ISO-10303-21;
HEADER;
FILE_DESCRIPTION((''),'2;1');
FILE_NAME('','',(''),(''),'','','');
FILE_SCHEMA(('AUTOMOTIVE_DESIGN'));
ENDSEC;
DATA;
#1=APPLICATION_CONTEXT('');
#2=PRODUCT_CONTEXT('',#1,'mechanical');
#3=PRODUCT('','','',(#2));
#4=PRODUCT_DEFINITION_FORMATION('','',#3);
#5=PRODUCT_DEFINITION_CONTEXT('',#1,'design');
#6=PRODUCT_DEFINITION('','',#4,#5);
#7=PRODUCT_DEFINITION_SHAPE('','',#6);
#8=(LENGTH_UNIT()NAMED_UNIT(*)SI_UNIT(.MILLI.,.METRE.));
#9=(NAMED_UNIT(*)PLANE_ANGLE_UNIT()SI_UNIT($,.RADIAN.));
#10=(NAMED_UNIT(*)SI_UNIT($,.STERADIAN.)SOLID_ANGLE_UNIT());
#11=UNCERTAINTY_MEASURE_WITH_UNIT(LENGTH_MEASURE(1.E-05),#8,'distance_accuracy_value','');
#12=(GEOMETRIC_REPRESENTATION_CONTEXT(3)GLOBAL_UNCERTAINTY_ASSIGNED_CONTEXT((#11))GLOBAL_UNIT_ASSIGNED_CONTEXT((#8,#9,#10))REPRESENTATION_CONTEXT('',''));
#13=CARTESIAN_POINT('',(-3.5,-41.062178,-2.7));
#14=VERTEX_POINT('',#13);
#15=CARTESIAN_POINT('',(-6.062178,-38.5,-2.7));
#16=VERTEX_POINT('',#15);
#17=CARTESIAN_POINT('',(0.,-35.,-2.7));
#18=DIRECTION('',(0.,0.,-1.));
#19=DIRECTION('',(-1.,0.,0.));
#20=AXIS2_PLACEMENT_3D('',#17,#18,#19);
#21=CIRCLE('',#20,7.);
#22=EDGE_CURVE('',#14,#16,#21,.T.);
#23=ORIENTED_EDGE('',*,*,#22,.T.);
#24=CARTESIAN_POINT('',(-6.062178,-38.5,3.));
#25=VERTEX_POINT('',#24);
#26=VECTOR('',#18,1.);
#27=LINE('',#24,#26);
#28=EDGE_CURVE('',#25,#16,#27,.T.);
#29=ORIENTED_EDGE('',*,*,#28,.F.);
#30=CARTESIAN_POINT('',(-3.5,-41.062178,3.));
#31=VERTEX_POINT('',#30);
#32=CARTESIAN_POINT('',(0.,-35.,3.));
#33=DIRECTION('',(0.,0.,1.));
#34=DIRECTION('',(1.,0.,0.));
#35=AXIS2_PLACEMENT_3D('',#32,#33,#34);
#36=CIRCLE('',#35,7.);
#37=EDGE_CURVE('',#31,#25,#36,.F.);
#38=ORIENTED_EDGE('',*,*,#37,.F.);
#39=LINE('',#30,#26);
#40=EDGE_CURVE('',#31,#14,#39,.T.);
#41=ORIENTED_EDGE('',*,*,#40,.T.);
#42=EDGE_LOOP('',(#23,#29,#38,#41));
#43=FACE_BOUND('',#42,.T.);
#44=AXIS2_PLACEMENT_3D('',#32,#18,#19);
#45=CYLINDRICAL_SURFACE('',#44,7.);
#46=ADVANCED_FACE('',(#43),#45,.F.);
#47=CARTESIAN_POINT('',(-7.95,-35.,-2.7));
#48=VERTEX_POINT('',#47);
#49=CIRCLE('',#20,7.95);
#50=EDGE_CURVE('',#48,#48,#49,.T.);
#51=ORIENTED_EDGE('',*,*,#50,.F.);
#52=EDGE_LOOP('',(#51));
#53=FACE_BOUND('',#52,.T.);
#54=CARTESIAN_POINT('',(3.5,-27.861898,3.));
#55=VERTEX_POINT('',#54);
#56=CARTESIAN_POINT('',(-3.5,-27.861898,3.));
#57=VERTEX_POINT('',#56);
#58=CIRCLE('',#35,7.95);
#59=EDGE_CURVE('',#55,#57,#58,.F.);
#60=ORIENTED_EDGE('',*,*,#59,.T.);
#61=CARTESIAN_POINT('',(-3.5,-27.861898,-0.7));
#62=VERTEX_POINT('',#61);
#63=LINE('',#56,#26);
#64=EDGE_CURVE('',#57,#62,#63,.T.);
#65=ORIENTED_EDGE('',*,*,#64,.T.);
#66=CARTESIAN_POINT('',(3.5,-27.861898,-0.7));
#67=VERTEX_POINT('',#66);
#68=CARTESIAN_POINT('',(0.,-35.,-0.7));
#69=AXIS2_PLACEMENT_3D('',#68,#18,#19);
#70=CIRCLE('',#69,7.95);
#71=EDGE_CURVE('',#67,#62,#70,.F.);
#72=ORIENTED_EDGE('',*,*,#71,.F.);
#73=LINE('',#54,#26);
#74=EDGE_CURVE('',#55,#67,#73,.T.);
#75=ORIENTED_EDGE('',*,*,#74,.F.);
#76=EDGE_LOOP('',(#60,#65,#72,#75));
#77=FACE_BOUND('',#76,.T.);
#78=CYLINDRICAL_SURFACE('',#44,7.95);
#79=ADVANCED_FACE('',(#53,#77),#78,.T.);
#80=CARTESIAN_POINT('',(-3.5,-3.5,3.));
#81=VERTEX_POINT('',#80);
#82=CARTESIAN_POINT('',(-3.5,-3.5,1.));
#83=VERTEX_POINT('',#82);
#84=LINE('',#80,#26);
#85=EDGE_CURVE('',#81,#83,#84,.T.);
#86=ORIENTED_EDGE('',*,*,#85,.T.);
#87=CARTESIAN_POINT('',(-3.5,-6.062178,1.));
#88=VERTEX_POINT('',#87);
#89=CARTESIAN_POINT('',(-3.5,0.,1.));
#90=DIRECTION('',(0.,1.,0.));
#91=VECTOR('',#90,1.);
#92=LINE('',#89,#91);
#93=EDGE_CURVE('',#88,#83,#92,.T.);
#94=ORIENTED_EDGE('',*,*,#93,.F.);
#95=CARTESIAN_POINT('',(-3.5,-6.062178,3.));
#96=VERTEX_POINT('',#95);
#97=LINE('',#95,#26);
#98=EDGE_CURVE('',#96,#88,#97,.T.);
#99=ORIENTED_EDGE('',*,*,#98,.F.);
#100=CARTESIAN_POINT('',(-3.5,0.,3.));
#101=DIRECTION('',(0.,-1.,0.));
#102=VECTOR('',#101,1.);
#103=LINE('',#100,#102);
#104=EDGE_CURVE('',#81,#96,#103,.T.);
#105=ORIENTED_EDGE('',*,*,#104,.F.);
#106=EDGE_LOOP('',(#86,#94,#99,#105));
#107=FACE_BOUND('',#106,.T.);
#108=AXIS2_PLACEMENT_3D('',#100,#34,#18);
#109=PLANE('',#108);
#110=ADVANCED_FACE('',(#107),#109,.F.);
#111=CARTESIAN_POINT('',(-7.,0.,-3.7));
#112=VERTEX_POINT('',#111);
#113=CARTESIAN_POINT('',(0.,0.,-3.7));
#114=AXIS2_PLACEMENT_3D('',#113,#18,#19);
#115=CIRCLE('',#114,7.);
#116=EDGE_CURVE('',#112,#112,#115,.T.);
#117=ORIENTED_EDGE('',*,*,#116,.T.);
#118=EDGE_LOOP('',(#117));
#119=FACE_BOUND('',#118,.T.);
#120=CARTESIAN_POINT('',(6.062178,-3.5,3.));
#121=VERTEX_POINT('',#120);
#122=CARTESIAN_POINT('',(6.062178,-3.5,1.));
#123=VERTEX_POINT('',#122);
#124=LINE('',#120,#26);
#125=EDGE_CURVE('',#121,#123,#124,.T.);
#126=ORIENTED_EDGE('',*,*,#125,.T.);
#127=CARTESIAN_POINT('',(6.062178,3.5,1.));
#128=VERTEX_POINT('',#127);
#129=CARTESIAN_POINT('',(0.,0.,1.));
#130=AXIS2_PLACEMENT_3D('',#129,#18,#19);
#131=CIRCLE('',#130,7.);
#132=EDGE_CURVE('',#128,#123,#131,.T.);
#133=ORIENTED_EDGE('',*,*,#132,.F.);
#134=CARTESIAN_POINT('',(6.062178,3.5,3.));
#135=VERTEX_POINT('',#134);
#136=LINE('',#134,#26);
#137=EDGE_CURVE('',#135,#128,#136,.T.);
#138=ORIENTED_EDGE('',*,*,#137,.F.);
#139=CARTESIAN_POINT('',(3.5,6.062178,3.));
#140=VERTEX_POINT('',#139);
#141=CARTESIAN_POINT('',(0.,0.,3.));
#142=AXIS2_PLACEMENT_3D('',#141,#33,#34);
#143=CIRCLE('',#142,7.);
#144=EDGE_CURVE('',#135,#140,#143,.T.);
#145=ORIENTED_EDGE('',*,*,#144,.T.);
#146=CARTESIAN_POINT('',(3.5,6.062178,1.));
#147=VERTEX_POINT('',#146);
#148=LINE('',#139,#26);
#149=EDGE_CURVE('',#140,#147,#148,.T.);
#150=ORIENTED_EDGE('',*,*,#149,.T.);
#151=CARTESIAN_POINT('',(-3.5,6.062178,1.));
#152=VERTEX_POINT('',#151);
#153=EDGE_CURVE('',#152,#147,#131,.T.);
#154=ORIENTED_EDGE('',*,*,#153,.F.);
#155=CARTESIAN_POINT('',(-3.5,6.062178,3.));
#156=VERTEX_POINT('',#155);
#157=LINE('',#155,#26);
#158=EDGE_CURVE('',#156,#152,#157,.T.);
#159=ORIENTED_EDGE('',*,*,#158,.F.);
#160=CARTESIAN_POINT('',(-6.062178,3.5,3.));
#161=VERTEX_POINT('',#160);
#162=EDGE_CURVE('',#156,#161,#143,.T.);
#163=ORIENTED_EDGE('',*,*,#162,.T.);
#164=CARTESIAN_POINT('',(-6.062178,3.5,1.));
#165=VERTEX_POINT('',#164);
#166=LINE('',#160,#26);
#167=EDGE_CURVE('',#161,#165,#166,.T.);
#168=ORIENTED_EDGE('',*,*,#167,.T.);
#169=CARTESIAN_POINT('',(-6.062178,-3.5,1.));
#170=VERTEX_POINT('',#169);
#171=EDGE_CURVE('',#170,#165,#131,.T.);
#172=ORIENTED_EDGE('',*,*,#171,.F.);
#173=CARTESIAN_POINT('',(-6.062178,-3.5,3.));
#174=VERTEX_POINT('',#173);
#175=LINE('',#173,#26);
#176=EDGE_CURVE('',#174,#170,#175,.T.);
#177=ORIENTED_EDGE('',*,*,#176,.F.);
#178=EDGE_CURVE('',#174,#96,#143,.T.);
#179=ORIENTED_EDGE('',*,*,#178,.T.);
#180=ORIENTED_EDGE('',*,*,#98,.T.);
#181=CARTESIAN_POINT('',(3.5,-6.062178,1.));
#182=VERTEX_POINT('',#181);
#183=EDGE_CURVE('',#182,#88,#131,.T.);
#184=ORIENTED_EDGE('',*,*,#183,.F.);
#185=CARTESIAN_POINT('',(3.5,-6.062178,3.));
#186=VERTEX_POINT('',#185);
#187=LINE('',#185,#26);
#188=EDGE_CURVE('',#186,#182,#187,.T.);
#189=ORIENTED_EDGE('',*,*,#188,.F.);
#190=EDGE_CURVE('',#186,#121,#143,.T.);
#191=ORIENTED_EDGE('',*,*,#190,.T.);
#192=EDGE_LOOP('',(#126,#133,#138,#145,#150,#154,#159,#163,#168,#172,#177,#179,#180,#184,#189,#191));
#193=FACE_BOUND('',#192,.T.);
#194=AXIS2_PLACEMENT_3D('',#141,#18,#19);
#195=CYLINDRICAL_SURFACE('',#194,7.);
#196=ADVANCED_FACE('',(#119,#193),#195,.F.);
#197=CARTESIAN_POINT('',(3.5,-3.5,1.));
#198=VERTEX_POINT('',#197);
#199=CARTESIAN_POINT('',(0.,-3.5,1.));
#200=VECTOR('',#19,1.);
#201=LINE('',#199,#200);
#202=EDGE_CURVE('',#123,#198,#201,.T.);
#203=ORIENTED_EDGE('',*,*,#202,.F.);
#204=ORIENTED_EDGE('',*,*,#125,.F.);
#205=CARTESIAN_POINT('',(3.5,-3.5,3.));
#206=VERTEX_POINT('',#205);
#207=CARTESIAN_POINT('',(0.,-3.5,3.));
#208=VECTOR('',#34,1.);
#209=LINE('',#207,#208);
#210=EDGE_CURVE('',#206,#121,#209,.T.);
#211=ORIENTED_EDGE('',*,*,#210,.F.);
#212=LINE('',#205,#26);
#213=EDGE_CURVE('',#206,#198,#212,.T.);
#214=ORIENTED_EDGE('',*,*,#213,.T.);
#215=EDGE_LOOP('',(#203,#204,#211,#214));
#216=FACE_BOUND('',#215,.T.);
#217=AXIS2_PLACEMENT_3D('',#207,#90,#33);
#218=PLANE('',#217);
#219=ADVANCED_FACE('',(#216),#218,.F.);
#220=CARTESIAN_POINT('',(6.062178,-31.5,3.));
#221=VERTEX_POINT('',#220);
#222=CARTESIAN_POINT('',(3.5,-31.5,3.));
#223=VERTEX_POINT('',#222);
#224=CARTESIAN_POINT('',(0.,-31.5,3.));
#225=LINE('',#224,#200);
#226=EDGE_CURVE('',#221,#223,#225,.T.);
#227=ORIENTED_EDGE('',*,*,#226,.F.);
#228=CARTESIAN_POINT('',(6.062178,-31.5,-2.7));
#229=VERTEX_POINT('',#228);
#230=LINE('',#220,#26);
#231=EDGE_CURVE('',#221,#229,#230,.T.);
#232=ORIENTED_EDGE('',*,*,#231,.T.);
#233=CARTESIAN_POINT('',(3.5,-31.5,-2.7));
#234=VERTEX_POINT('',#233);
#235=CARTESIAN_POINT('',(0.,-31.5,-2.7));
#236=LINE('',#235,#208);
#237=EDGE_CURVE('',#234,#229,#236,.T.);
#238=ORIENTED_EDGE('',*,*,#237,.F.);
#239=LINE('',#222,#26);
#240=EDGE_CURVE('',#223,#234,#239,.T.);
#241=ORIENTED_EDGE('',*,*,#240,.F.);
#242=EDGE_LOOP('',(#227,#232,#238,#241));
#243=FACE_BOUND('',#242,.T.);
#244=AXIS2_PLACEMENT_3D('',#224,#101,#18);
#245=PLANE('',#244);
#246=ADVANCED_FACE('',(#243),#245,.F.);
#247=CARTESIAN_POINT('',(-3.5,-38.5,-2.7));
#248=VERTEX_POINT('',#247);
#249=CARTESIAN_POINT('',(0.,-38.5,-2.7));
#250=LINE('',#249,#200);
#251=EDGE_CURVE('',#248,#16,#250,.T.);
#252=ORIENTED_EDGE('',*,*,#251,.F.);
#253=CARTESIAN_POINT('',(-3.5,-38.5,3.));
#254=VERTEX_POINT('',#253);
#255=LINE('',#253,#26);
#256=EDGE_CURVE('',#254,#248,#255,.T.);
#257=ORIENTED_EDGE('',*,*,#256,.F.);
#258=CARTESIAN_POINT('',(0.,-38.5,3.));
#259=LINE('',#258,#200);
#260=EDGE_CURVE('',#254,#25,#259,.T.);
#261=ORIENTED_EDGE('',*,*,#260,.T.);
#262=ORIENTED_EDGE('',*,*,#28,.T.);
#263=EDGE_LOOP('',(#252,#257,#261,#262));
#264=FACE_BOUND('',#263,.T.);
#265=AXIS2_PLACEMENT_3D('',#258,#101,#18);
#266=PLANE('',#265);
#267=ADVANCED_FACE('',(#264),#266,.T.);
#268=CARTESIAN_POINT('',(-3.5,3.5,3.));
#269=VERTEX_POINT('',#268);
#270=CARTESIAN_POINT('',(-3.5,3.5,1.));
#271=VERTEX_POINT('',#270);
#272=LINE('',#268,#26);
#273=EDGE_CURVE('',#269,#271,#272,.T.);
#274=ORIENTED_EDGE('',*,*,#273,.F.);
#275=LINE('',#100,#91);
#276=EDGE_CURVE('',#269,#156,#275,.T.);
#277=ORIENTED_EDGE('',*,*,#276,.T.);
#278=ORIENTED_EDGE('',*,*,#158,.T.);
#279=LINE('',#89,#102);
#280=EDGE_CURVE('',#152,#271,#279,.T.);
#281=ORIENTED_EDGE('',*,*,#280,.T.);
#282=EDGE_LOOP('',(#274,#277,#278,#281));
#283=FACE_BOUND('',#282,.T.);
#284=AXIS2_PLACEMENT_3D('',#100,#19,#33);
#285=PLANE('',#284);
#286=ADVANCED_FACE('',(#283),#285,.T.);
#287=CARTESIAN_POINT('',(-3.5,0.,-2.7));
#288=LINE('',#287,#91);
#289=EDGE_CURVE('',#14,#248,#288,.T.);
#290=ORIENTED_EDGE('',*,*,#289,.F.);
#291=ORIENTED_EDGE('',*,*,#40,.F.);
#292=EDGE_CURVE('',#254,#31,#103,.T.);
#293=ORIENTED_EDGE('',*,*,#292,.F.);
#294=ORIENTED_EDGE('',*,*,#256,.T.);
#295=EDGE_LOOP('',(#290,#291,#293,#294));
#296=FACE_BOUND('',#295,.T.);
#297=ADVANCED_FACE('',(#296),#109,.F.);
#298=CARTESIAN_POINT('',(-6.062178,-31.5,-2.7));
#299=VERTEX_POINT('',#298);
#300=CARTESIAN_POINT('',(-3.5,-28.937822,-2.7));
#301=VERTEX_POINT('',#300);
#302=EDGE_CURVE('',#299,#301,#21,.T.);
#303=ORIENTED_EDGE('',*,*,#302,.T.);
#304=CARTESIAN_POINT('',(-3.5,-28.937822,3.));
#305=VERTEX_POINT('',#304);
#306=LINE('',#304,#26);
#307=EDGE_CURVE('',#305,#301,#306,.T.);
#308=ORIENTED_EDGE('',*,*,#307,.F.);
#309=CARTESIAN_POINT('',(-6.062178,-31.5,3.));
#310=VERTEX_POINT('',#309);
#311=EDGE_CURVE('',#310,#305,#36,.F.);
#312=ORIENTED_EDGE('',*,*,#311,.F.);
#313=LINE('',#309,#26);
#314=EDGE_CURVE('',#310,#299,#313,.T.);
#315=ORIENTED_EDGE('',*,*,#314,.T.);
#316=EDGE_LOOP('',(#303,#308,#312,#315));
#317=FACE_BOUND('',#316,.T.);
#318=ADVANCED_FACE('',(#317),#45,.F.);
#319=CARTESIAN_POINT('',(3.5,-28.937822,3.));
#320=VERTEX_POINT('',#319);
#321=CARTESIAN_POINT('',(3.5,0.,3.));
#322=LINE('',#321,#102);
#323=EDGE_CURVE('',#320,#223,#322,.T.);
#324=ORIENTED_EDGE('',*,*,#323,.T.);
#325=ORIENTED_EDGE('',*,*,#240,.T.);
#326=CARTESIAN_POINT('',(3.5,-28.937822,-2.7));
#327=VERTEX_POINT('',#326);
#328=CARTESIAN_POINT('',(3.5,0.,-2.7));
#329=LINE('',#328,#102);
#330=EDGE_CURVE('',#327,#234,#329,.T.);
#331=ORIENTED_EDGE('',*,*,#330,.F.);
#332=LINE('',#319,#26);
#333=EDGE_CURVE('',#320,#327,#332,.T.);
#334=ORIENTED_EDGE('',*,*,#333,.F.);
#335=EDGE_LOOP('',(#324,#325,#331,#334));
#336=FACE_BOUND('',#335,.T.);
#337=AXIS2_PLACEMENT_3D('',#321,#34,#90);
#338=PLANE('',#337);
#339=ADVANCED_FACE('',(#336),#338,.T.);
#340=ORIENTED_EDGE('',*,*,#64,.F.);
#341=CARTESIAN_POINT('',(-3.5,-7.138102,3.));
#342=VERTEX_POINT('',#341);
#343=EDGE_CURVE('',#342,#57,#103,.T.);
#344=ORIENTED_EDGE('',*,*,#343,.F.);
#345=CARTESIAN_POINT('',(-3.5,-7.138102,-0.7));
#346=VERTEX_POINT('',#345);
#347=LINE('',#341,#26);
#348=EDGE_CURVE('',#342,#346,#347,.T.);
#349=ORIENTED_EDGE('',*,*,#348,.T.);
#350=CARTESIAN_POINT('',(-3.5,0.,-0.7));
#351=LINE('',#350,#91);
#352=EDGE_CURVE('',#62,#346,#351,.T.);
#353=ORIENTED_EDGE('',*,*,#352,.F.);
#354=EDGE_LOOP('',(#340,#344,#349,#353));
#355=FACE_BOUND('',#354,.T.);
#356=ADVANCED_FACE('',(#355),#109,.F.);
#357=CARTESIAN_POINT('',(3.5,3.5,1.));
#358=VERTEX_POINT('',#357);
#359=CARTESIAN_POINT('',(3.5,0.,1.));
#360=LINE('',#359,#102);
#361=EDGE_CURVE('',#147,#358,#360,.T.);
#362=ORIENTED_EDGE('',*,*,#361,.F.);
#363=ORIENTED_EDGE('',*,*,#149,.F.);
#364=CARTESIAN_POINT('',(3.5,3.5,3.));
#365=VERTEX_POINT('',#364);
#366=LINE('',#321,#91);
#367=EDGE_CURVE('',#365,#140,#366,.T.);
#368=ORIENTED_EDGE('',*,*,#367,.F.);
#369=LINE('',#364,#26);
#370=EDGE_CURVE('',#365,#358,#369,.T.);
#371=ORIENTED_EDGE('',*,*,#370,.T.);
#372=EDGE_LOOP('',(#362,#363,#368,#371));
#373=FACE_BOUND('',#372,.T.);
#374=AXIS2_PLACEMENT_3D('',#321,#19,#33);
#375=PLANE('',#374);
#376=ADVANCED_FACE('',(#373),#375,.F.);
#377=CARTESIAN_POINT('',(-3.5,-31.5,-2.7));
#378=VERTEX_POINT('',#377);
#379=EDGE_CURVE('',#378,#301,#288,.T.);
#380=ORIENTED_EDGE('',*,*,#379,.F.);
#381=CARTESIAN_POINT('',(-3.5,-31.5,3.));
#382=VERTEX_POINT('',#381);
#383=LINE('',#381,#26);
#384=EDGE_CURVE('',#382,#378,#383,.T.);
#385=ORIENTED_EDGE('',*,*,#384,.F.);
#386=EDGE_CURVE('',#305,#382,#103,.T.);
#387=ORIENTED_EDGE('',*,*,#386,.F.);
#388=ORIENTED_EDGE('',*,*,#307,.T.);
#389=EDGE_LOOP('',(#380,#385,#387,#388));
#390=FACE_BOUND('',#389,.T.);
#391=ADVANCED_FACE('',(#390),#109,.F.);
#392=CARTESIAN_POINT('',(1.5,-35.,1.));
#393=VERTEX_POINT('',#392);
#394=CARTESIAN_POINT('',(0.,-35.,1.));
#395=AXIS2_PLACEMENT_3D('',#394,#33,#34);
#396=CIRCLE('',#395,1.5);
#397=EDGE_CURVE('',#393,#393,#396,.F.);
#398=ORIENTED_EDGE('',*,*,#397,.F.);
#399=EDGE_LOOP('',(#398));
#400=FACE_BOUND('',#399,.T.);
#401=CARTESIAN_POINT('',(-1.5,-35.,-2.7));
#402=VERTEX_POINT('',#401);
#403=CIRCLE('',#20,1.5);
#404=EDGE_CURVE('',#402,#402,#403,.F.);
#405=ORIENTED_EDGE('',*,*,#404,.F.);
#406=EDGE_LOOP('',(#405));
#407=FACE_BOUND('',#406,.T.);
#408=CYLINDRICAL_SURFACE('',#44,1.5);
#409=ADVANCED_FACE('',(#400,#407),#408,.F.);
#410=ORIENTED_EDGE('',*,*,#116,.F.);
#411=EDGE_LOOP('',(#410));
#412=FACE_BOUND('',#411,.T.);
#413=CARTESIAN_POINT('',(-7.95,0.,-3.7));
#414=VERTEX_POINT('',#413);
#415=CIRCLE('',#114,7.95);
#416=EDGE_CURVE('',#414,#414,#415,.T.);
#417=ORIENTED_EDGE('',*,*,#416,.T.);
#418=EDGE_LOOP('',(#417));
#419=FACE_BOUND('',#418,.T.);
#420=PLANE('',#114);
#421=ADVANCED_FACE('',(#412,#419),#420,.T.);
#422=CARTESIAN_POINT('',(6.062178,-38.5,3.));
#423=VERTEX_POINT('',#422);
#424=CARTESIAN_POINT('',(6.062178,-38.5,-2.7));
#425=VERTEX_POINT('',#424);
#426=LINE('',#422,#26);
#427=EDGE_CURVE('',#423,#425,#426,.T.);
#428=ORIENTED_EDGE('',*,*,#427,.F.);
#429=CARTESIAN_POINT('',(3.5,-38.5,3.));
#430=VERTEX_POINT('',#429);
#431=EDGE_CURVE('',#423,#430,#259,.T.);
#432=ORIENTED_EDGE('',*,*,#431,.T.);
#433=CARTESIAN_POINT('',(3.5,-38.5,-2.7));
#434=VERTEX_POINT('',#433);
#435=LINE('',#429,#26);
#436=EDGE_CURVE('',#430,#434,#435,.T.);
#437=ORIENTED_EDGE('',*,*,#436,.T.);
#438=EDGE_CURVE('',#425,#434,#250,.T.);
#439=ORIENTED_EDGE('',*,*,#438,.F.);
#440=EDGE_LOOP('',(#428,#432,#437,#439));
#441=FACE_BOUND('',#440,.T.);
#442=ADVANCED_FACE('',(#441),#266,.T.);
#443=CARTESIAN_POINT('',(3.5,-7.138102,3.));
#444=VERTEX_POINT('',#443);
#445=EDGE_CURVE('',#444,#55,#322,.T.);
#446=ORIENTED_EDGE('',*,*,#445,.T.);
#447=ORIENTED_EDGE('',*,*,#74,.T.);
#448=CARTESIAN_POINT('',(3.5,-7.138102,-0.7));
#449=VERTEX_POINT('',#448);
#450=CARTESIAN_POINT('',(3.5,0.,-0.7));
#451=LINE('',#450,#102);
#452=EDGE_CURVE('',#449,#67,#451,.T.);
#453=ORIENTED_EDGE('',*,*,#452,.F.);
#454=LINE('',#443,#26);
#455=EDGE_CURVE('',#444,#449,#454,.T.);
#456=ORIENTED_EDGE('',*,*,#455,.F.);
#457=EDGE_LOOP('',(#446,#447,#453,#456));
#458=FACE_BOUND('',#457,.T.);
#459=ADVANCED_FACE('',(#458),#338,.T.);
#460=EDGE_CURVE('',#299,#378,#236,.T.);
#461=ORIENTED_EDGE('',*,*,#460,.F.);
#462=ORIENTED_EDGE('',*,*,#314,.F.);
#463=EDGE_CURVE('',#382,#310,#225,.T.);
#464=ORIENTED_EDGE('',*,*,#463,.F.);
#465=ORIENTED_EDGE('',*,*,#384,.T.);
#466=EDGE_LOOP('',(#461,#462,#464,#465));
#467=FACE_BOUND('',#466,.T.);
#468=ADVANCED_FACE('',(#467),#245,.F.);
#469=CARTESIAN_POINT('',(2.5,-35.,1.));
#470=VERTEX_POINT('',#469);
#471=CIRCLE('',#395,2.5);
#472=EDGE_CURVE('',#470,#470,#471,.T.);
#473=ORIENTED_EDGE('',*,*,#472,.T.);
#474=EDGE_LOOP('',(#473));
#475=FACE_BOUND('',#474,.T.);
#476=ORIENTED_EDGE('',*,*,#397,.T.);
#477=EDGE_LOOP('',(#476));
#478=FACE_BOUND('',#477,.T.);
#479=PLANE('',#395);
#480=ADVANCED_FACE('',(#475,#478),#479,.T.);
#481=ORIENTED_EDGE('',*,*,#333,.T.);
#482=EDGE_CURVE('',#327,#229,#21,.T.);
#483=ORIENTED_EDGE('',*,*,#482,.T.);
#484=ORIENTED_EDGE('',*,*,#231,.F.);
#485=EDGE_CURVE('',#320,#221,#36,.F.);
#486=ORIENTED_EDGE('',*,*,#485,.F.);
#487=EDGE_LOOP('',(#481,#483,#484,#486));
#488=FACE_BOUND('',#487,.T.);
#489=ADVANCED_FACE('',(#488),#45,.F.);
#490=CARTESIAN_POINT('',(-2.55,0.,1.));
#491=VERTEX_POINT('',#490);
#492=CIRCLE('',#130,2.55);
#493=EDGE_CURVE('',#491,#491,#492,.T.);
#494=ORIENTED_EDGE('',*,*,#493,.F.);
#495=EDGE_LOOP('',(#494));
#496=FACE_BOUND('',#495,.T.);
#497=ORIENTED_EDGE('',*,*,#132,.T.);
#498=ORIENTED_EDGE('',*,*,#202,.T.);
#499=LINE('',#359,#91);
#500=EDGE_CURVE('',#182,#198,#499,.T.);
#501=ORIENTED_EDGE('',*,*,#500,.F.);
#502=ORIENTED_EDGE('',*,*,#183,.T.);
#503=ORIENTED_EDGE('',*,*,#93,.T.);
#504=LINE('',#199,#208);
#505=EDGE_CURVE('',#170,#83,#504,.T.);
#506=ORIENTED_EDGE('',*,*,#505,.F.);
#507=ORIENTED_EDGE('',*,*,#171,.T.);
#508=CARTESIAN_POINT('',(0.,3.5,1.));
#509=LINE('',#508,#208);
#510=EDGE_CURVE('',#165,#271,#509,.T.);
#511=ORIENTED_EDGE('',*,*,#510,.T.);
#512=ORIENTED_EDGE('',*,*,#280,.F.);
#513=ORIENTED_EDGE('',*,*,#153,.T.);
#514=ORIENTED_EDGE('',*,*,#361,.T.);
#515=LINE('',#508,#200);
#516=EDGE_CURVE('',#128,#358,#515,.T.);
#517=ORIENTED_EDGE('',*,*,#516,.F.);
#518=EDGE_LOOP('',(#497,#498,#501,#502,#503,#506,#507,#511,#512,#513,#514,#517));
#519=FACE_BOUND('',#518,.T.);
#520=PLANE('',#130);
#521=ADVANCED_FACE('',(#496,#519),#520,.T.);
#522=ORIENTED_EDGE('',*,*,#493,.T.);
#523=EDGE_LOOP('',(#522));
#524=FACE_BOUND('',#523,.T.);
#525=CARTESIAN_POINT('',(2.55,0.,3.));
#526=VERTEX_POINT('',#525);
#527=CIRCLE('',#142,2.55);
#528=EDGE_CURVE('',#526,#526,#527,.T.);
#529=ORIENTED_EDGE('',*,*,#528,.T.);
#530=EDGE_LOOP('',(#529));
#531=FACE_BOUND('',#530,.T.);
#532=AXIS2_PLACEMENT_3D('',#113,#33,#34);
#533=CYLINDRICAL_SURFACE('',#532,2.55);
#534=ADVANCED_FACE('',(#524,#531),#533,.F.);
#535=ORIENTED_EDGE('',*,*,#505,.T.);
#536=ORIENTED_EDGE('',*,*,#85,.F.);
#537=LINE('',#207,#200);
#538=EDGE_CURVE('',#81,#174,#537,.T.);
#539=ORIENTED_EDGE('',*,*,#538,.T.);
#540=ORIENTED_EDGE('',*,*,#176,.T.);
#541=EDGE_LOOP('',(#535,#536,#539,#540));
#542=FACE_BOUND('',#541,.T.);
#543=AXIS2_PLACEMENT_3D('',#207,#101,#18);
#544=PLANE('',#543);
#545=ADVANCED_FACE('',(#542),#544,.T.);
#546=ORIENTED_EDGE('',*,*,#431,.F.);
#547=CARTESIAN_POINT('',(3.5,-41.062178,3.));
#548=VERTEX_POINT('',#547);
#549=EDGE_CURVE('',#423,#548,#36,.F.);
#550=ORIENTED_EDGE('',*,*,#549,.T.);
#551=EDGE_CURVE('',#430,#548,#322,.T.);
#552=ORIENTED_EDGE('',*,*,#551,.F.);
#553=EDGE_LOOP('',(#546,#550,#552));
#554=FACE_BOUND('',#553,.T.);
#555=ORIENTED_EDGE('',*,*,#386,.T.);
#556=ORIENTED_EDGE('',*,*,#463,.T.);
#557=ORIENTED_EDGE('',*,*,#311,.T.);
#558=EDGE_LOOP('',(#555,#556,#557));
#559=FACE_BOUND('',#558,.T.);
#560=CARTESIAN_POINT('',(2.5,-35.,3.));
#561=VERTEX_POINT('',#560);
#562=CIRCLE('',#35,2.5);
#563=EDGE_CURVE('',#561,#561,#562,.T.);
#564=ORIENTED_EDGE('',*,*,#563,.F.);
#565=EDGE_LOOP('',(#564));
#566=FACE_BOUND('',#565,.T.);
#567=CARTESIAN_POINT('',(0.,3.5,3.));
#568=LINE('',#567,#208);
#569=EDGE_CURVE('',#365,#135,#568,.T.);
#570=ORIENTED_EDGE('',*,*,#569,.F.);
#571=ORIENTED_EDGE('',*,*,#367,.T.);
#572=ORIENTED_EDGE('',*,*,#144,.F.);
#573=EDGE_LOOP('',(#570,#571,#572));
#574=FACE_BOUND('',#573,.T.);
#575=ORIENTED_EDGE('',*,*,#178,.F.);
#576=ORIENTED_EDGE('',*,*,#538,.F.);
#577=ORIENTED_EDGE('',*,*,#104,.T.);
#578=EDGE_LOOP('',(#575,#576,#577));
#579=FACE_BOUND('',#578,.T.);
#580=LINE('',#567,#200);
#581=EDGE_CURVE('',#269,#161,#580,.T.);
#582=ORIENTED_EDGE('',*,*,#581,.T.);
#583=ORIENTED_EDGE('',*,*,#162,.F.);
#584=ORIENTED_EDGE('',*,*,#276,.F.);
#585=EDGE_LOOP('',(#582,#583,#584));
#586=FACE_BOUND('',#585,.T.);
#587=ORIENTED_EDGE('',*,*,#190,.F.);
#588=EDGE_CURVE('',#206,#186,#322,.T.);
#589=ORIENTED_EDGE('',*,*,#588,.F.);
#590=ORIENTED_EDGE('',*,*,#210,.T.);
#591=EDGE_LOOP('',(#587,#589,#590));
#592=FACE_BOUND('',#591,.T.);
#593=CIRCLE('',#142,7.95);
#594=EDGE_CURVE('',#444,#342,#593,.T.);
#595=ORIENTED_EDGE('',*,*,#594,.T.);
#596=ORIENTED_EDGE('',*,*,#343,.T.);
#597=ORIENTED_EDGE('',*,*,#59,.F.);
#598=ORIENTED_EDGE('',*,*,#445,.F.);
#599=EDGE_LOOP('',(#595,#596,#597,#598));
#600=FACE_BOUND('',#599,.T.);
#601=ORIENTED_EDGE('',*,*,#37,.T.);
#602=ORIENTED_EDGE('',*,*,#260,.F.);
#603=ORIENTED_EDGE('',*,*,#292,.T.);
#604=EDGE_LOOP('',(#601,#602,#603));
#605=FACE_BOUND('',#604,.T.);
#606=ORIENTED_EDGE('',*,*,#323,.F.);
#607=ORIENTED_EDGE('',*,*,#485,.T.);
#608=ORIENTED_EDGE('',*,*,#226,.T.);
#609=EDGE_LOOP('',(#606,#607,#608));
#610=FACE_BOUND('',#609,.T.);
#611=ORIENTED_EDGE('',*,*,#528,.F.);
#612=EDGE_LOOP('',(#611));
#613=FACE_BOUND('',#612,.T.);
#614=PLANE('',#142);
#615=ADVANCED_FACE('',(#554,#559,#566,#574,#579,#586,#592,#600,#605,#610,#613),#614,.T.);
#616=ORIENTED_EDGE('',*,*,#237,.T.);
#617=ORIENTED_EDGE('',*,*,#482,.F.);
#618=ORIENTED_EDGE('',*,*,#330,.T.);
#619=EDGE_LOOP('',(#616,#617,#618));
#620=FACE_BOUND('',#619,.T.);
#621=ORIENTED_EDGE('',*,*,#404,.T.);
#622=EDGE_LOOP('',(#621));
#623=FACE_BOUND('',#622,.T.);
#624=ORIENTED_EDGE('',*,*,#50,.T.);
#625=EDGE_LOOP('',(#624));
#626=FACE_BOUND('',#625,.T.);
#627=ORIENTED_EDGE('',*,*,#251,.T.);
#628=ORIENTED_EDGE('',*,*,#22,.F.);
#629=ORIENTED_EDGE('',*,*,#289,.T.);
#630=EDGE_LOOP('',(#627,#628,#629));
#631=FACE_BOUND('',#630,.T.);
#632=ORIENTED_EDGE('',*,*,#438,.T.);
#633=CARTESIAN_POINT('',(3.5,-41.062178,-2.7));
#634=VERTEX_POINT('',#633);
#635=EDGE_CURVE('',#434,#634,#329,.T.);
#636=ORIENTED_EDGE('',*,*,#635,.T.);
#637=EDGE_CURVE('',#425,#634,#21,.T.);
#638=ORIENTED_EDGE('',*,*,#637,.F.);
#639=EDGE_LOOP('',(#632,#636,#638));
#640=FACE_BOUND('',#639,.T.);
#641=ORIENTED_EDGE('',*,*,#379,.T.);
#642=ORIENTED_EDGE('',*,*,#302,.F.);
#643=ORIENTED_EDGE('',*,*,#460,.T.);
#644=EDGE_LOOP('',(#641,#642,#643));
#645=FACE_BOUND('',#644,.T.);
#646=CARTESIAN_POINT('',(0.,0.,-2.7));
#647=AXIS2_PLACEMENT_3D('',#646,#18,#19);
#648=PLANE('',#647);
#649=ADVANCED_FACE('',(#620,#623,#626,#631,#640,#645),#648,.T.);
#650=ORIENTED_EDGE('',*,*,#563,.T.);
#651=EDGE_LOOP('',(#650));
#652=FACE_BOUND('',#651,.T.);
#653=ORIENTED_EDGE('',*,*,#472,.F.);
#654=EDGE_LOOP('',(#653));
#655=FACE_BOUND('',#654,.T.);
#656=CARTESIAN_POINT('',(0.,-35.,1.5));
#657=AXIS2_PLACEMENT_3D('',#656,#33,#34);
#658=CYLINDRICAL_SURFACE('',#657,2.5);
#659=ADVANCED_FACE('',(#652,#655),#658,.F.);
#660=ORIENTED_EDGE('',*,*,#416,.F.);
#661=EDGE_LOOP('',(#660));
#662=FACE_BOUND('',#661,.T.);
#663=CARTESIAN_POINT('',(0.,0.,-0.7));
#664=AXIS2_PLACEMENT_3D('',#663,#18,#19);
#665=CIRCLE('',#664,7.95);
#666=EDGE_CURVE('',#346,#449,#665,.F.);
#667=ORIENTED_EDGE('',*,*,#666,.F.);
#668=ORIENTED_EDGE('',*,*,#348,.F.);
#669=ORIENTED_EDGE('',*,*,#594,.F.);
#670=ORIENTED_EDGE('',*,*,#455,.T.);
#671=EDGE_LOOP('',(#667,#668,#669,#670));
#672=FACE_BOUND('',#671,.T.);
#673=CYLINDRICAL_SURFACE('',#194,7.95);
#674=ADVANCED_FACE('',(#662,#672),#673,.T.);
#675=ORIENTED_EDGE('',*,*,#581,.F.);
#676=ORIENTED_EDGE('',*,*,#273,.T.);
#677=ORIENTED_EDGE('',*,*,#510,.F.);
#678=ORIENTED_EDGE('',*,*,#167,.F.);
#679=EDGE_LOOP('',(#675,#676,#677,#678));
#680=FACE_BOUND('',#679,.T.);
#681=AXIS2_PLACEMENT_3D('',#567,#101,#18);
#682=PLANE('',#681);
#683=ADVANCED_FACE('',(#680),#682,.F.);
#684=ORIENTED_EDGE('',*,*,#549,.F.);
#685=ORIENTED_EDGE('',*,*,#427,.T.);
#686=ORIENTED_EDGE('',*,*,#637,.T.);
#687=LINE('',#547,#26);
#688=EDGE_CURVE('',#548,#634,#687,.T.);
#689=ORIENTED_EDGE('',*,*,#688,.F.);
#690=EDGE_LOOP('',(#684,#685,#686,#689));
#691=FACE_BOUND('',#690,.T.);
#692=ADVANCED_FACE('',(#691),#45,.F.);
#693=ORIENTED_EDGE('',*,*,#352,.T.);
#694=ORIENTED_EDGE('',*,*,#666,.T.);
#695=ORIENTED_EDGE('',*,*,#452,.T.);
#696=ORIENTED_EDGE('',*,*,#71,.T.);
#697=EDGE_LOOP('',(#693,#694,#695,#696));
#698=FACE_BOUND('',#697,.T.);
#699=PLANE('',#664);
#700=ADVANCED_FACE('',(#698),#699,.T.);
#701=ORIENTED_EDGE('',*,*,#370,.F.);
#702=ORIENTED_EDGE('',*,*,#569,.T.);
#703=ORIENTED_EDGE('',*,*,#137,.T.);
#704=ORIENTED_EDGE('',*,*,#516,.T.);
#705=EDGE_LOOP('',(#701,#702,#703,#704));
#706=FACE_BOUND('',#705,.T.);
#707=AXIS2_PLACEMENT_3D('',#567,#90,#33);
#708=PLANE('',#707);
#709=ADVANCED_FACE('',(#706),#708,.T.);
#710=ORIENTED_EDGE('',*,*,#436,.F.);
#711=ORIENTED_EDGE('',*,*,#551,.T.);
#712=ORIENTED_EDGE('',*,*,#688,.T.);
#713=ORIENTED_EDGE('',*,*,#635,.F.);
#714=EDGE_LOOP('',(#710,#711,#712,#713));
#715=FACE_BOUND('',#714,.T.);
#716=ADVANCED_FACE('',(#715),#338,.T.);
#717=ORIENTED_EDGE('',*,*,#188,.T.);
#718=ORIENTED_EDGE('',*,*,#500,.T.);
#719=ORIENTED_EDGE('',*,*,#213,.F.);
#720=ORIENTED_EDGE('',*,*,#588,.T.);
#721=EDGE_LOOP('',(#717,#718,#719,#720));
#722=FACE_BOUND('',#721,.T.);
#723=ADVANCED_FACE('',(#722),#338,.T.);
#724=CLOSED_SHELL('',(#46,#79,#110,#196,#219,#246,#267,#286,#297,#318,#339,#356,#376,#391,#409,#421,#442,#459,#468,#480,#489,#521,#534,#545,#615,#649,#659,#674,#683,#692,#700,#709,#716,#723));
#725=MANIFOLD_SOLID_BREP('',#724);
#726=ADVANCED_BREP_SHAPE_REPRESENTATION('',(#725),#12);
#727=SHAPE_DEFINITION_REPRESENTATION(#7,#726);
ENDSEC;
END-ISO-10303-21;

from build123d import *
from build123d.topology import SkipClean

# Parameters (mm, degrees)
SKETCH1_R           = 3.5
SKETCH1_R_2         = 1.5
BOSS_EXTRUDE4_DEPTH = 3
BOSS_EXTRUDE5_START = 3
SKETCH3_R           = 1.5
BOSS_EXTRUDE5_DEPTH = 3
SKETCH4_R           = 2.5
CUT_EXTRUDE1_DEPTH  = 1.5
SKETCH5_R           = 7
CUT_EXTRUDE2_DEPTH  = 4
SKETCH6_R           = 7.95
CUT_EXTRUDE3_DEPTH  = 1
SKETCH7_R           = 2.5
CUT_EXTRUDE4_DEPTH  = 0.5
BOSS_EXTRUDE6_START = 0.7
SKETCH8_R           = 7.95
SKETCH8_R_2         = 7
BOSS_EXTRUDE6_DEPTH = 0.7
BOSS_EXTRUDE8_START = 0.7
SKETCH9_R           = 7.95
SKETCH9_R_2         = 1.5
BOSS_EXTRUDE8_DEPTH = 0.7
BOSS_EXTRUDE9_START = 0.7
BOSS_EXTRUDE9_DEPTH = 0.7
SKETCH11_R          = 2.55
CUT_EXTRUDE5_DEPTH  = 45.190440143


with BuildPart() as part:
    # Sketch1 → Boss-Extrude4 (new body)
    # profile 1 of 34: a face of its own
    with BuildSketch(Plane.XY):
        with BuildLine():
            Line((-3.5, 3.5), (0, 3.5))
            Line((0, 3.5), (3.5, 3.5))
            Line((3.5, 3.5), (3.5, 6.062177826))
            ThreePointArc((3.5, 6.062177826), (0, 7), (-3.5, 6.062177826))
            Line((-3.5, 6.062177826), (-3.5, 3.5))
        make_face()
    # profile 2 of 34: a face of its own
    with BuildSketch(Plane.XY):
        with BuildLine():
            ThreePointArc((3.5, 6.062177826), (4.949747468, 4.949747468), (6.062177826, 3.5))
            Line((6.062177826, 3.5), (7.138101989, 3.5))
            ThreePointArc((7.138101989, 3.5), (0, 7.95), (-7.138101989, 3.5))
            Line((-7.138101989, 3.5), (-6.062177826, 3.5))
            ThreePointArc((-6.062177826, 3.5), (-4.949747468, 4.949747468), (-3.5, 6.062177826))
            ThreePointArc((-3.5, 6.062177826), (0, 7), (3.5, 6.062177826))
        make_face()
    # profile 3 of 34: a face of its own
    with BuildSketch(Plane.XY):
        with BuildLine():
            Line((3.5, -27.861898011), (3.5, -7.138101989))
            ThreePointArc((3.5, -7.138101989), (0, -7.95), (-3.5, -7.138101989))
            Line((-3.5, -7.138101989), (-3.5, -27.861898011))
            ThreePointArc((-3.5, -27.861898011), (0, -27.05), (3.5, -27.861898011))
        make_face()
    # profile 4 of 34: a face of its own
    with BuildSketch(Plane.XY):
        with BuildLine():
            Line((-6.062177826, -38.5), (-7.138101989, -38.5))
            ThreePointArc((-7.138101989, -38.5), (0, -42.95), (7.138101989, -38.5))
            Line((7.138101989, -38.5), (6.062177826, -38.5))
            ThreePointArc((6.062177826, -38.5), (4.949747468, -39.949747468), (3.5, -41.062177826))
            ThreePointArc((3.5, -41.062177826), (0, -42), (-3.5, -41.062177826))
            ThreePointArc((-3.5, -41.062177826), (-4.949747468, -39.949747468), (-6.062177826, -38.5))
        make_face()
    # profile 5 of 34: a face of its own
    with BuildSketch(Plane.XY):
        with BuildLine():
            Line((3.5, -41.062177826), (3.5, -38.5))
            Line((3.5, -38.5), (0, -38.5))
            Line((0, -38.5), (-3.5, -38.5))
            Line((-3.5, -38.5), (-3.5, -41.062177826))
            ThreePointArc((-3.5, -41.062177826), (0, -42), (3.5, -41.062177826))
        make_face()
    # profile 6 of 34: a face of its own
    with BuildSketch(Plane.XY):
        with BuildLine():
            ThreePointArc((7.95, -35), (7.744366043, -33.203532746), (7.138101989, -31.5))
            Line((7.138101989, -31.5), (6.062177826, -31.5))
            ThreePointArc((6.062177826, -31.5), (6.761480784, -33.188266684), (7, -35))
            ThreePointArc((7, -35), (6.761480784, -36.811733316), (6.062177826, -38.5))
            Line((6.062177826, -38.5), (7.138101989, -38.5))
            ThreePointArc((7.138101989, -38.5), (7.744366043, -36.796467254), (7.95, -35))
        make_face()
    # profile 7 of 34: a face of its own
    with BuildSketch(Plane.XY):
        with BuildLine():
            Line((-6.062177826, -31.5), (-7.138101989, -31.5))
            ThreePointArc((-7.138101989, -31.5), (-7.95, -35), (-7.138101989, -38.5))
            Line((-7.138101989, -38.5), (-6.062177826, -38.5))
            ThreePointArc((-6.062177826, -38.5), (-7, -35), (-6.062177826, -31.5))
        make_face()
    # profile 8 of 34: a face of its own
    with BuildSketch(Plane.XY):
        with BuildLine():
            Line((3.5, -38.5), (3.5, -35))
            ThreePointArc((3.5, -35), (2.474873734, -37.474873734), (0, -38.5))
            Line((0, -38.5), (3.5, -38.5))
        make_face()
    # profile 9 of 34: a face of its own
    with BuildSketch(Plane.XY):
        with BuildLine():
            ThreePointArc((0, -38.5), (-2.474873734, -37.474873734), (-3.5, -35))
            Line((-3.5, -35), (-3.5, -38.5))
            Line((-3.5, -38.5), (0, -38.5))
        make_face()
    # profile 10 of 34: a face of its own
    with BuildSketch(Plane.XY):
        with BuildLine():
            ThreePointArc((7.95, -35), (7.744366043, -33.203532746), (7.138101989, -31.5))
            Line((7.138101989, -31.5), (6.062177826, -31.5))
            ThreePointArc((6.062177826, -31.5), (6.761480784, -33.188266684), (7, -35))
            ThreePointArc((7, -35), (6.761480784, -36.811733316), (6.062177826, -38.5))
            Line((6.062177826, -38.5), (7.138101989, -38.5))
            ThreePointArc((7.138101989, -38.5), (7.744366043, -36.796467254), (7.95, -35))
        make_face()
    # profile 11 of 34: a face of its own
    with BuildSketch(Plane.XY):
        with BuildLine():
            Line((-6.062177826, -31.5), (-7.138101989, -31.5))
            ThreePointArc((-7.138101989, -31.5), (-7.95, -35), (-7.138101989, -38.5))
            Line((-7.138101989, -38.5), (-6.062177826, -38.5))
            ThreePointArc((-6.062177826, -38.5), (-7, -35), (-6.062177826, -31.5))
        make_face()
    # profile 12 of 34: a face of its own
    with BuildSketch(Plane.XY):
        with Locations((0, -35)):
            Circle(SKETCH1_R)
        with Locations((0, -35)):
            Circle(SKETCH1_R_2, mode=Mode.SUBTRACT)
    # profile 13 of 34: a face of its own
    with BuildSketch(Plane.XY):
        with BuildLine():
            Line((0, -31.5), (-3.5, -31.5))
            Line((-3.5, -31.5), (-3.5, -35))
            ThreePointArc((-3.5, -35), (-2.474873734, -32.525126266), (0, -31.5))
        make_face()
    # profile 14 of 34: a face of its own
    with BuildSketch(Plane.XY):
        with BuildLine():
            Line((3.5, -35), (3.5, -31.5))
            Line((3.5, -31.5), (0, -31.5))
            ThreePointArc((0, -31.5), (2.474873734, -32.525126266), (3.5, -35))
        make_face()
    # profile 15 of 34: a face of its own
    with BuildSketch(Plane.XY):
        with BuildLine():
            Line((3.5, -31.5), (3.5, -28.937822174))
            ThreePointArc((3.5, -28.937822174), (0, -28), (-3.5, -28.937822174))
            Line((-3.5, -28.937822174), (-3.5, -31.5))
            Line((-3.5, -31.5), (0, -31.5))
            Line((0, -31.5), (3.5, -31.5))
        make_face()
    # profile 16 of 34: a face of its own
    with BuildSketch(Plane.XY):
        with BuildLine():
            Line((-3.5, -28.937822174), (-3.5, -27.861898011))
            ThreePointArc((-3.5, -27.861898011), (-5.62149891, -29.37850109), (-7.138101989, -31.5))
            Line((-7.138101989, -31.5), (-6.062177826, -31.5))
            ThreePointArc((-6.062177826, -31.5), (-4.949747468, -30.050252532), (-3.5, -28.937822174))
        make_face()
    # profile 17 of 34: a face of its own
    with BuildSketch(Plane.XY):
        with BuildLine():
            ThreePointArc((7.138101989, -31.5), (5.62149891, -29.37850109), (3.5, -27.861898011))
            Line((3.5, -27.861898011), (3.5, -28.937822174))
            ThreePointArc((3.5, -28.937822174), (4.949747468, -30.050252532), (6.062177826, -31.5))
            Line((6.062177826, -31.5), (7.138101989, -31.5))
        make_face()
    # profile 18 of 34: a face of its own
    with BuildSketch(Plane.XY):
        with BuildLine():
            Line((3.5, -28.937822174), (3.5, -27.861898011))
            ThreePointArc((3.5, -27.861898011), (0, -27.05), (-3.5, -27.861898011))
            Line((-3.5, -27.861898011), (-3.5, -28.937822174))
            ThreePointArc((-3.5, -28.937822174), (0, -28), (3.5, -28.937822174))
        make_face()
    # profile 19 of 34: a face of its own
    with BuildSketch(Plane.XY):
        with BuildLine():
            Line((-3.5, -35), (-3.5, -31.5))
            Line((-3.5, -31.5), (-6.062177826, -31.5))
            ThreePointArc((-6.062177826, -31.5), (-7, -35), (-6.062177826, -38.5))
            Line((-6.062177826, -38.5), (-3.5, -38.5))
            Line((-3.5, -38.5), (-3.5, -35))
        make_face()
    # profile 20 of 34: a face of its own
    with BuildSketch(Plane.XY):
        with BuildLine():
            Line((6.062177826, -31.5), (3.5, -31.5))
            Line((3.5, -31.5), (3.5, -35))
            Line((3.5, -35), (3.5, -38.5))
            Line((3.5, -38.5), (6.062177826, -38.5))
            ThreePointArc((6.062177826, -38.5), (6.761480784, -36.811733316), (7, -35))
            ThreePointArc((7, -35), (6.761480784, -33.188266684), (6.062177826, -31.5))
        make_face()
    # profile 21 of 34: a face of its own
    with BuildSketch(Plane.XY):
        with BuildLine():
            Line((3.5, -6.062177826), (3.5, -3.5))
            Line((3.5, -3.5), (0, -3.5))
            Line((0, -3.5), (-3.5, -3.5))
            Line((-3.5, -3.5), (-3.5, -6.062177826))
            ThreePointArc((-3.5, -6.062177826), (0, -7), (3.5, -6.062177826))
        make_face()
    # profile 22 of 34: a face of its own
    with BuildSketch(Plane.XY):
        with BuildLine():
            Line((3.5, -7.138101989), (3.5, -6.062177826))
            ThreePointArc((3.5, -6.062177826), (0, -7), (-3.5, -6.062177826))
            Line((-3.5, -6.062177826), (-3.5, -7.138101989))
            ThreePointArc((-3.5, -7.138101989), (0, -7.95), (3.5, -7.138101989))
        make_face()
    # profile 23 of 34: a face of its own
    with BuildSketch(Plane.XY):
        with BuildLine():
            Line((7.138101989, -3.5), (6.062177826, -3.5))
            ThreePointArc((6.062177826, -3.5), (4.949747468, -4.949747468), (3.5, -6.062177826))
            Line((3.5, -6.062177826), (3.5, -7.138101989))
            ThreePointArc((3.5, -7.138101989), (5.62149891, -5.62149891), (7.138101989, -3.5))
        make_face()
    # profile 24 of 34: a face of its own
    with BuildSketch(Plane.XY):
        with BuildLine():
            Line((7.138101989, 3.5), (6.062177826, 3.5))
            ThreePointArc((6.062177826, 3.5), (6.761480784, 1.811733316), (7, 0))
            ThreePointArc((7, 0), (6.761480784, -1.811733316), (6.062177826, -3.5))
            Line((6.062177826, -3.5), (7.138101989, -3.5))
            ThreePointArc((7.138101989, -3.5), (7.744366043, -1.796467254), (7.95, 0))
            ThreePointArc((7.95, 0), (7.744366043, 1.796467254), (7.138101989, 3.5))
        make_face()
    # profile 25 of 34: a face of its own
    with BuildSketch(Plane.XY):
        with BuildLine():
            Line((7.138101989, 3.5), (6.062177826, 3.5))
            ThreePointArc((6.062177826, 3.5), (6.761480784, 1.811733316), (7, 0))
            ThreePointArc((7, 0), (6.761480784, -1.811733316), (6.062177826, -3.5))
            Line((6.062177826, -3.5), (7.138101989, -3.5))
            ThreePointArc((7.138101989, -3.5), (7.744366043, -1.796467254), (7.95, 0))
            ThreePointArc((7.95, 0), (7.744366043, 1.796467254), (7.138101989, 3.5))
        make_face()
    # profile 26 of 34: a face of its own
    with BuildSketch(Plane.XY):
        with BuildLine():
            ThreePointArc((-6.062177826, -3.5), (-7, 0), (-6.062177826, 3.5))
            Line((-6.062177826, 3.5), (-7.138101989, 3.5))
            ThreePointArc((-7.138101989, 3.5), (-7.95, 0), (-7.138101989, -3.5))
            Line((-7.138101989, -3.5), (-6.062177826, -3.5))
        make_face()
    # profile 27 of 34: a face of its own
    with BuildSketch(Plane.XY):
        with BuildLine():
            ThreePointArc((-3.5, -6.062177826), (-4.949747468, -4.949747468), (-6.062177826, -3.5))
            Line((-6.062177826, -3.5), (-7.138101989, -3.5))
            ThreePointArc((-7.138101989, -3.5), (-5.62149891, -5.62149891), (-3.5, -7.138101989))
            Line((-3.5, -7.138101989), (-3.5, -6.062177826))
        make_face()
    # profile 28 of 34: a face of its own
    with BuildSketch(Plane.XY):
        with BuildLine():
            Line((-3.5, 0), (-3.5, 3.5))
            Line((-3.5, 3.5), (-6.062177826, 3.5))
            ThreePointArc((-6.062177826, 3.5), (-7, 0), (-6.062177826, -3.5))
            Line((-6.062177826, -3.5), (-3.5, -3.5))
            Line((-3.5, -3.5), (-3.5, 0))
        make_face()
    # profile 29 of 34: a face of its own
    with BuildSketch(Plane.XY):
        with BuildLine():
            Line((6.062177826, 3.5), (3.5, 3.5))
            Line((3.5, 3.5), (3.5, 0))
            Line((3.5, 0), (3.5, -3.5))
            Line((3.5, -3.5), (6.062177826, -3.5))
            ThreePointArc((6.062177826, -3.5), (6.761480784, -1.811733316), (7, 0))
            ThreePointArc((7, 0), (6.761480784, 1.811733316), (6.062177826, 3.5))
        make_face()
    # profile 30 of 34: a face of its own
    with BuildSketch(Plane.XY):
        with BuildLine():
            Line((3.5, -3.5), (3.5, 0))
            ThreePointArc((3.5, 0), (2.474873734, -2.474873734), (0, -3.5))
            Line((0, -3.5), (3.5, -3.5))
        make_face()
    # profile 31 of 34: a face of its own
    with BuildSketch(Plane.XY):
        Circle(SKETCH1_R)
        Circle(SKETCH1_R_2, mode=Mode.SUBTRACT)
    # profile 32 of 34: a face of its own
    with BuildSketch(Plane.XY):
        with BuildLine():
            ThreePointArc((0, -3.5), (-2.474873734, -2.474873734), (-3.5, 0))
            Line((-3.5, 0), (-3.5, -3.5))
            Line((-3.5, -3.5), (0, -3.5))
        make_face()
    # profile 33 of 34: a face of its own
    with BuildSketch(Plane.XY):
        with BuildLine():
            ThreePointArc((-3.5, 0), (-2.474873734, 2.474873734), (0, 3.5))
            Line((0, 3.5), (-3.5, 3.5))
            Line((-3.5, 3.5), (-3.5, 0))
        make_face()
    # profile 34 of 34: a face of its own
    with BuildSketch(Plane.XY):
        with BuildLine():
            Line((3.5, 3.5), (0, 3.5))
            ThreePointArc((0, 3.5), (2.474873734, 2.474873734), (3.5, 0))
            Line((3.5, 0), (3.5, 3.5))
        make_face()
    extrude(amount=BOSS_EXTRUDE4_DEPTH)

    # Sketch3 → Boss-Extrude5 (add)
    # profile 1 of 4: a face of its own
    with SkipClean():  # the faces are left unmerged after this step: merging them gives an invalid solid
        with BuildSketch(Plane(origin=(0, 0, 0), x_dir=(-1, 0, 0), z_dir=(0, 0, -1)).offset(BOSS_EXTRUDE5_START)):
            with BuildLine():
                ThreePointArc((3.5, -7.138101989), (6.746387922, -4.205799567), (7.95, 0))
                ThreePointArc((7.95, 0), (-4.205799567, 6.746387922), (-3.5, -7.138101989))
                ThreePointArc((-3.5, -7.138101989), (0, -7.95), (3.5, -7.138101989))
            make_face()
            with BuildLine():
                ThreePointArc((-6.062177826, 3.5), (-4.949747468, 4.949747468), (-3.5, 6.062177826))
                ThreePointArc((-3.5, 6.062177826), (0, 7), (3.5, 6.062177826))
                ThreePointArc((3.5, 6.062177826), (4.949747468, 4.949747468), (6.062177826, 3.5))
                ThreePointArc((6.062177826, 3.5), (6.761480784, 1.811733316), (7, 0))
                ThreePointArc((7, 0), (6.761480784, -1.811733316), (6.062177826, -3.5))
                ThreePointArc((6.062177826, -3.5), (4.949747468, -4.949747468), (3.5, -6.062177826))
                ThreePointArc((3.5, -6.062177826), (0, -7), (-3.5, -6.062177826))
                ThreePointArc((-3.5, -6.062177826), (-4.949747468, -4.949747468), (-6.062177826, -3.5))
                ThreePointArc((-6.062177826, -3.5), (-7, 0), (-6.062177826, 3.5))
            make_face(mode=Mode.SUBTRACT)
        # profile 2 of 4: a face of its own
        with BuildSketch(Plane(origin=(0, 0, 0), x_dir=(-1, 0, 0), z_dir=(0, 0, -1)).offset(BOSS_EXTRUDE5_START)):
            with BuildLine():
                ThreePointArc((3.5, 6.062177826), (0, 7), (-3.5, 6.062177826))
                Line((-3.5, 6.062177826), (-3.5, 3.5))
                Line((-3.5, 3.5), (-6.062177826, 3.5))
                ThreePointArc((-6.062177826, 3.5), (-7, 0), (-6.062177826, -3.5))
                Line((-6.062177826, -3.5), (-3.5, -3.5))
                Line((-3.5, -3.5), (-3.5, -6.062177826))
                ThreePointArc((-3.5, -6.062177826), (0, -7), (3.5, -6.062177826))
                Line((3.5, -6.062177826), (3.5, -3.5))
                Line((3.5, -3.5), (6.062177826, -3.5))
                ThreePointArc((6.062177826, -3.5), (6.761480784, -1.811733316), (7, 0))
                ThreePointArc((7, 0), (6.761480784, 1.811733316), (6.062177826, 3.5))
                Line((6.062177826, 3.5), (3.5, 3.5))
                Line((3.5, 3.5), (3.5, 6.062177826))
            make_face()
            Circle(SKETCH3_R, mode=Mode.SUBTRACT)
        # profile 3 of 4: a face of its own
        with BuildSketch(Plane(origin=(0, 0, 0), x_dir=(-1, 0, 0), z_dir=(0, 0, -1)).offset(BOSS_EXTRUDE5_START)):
            with BuildLine():
                ThreePointArc((-3.5, -27.861898011), (-4.205799567, -41.746387922), (7.95, -35))
                ThreePointArc((7.95, -35), (6.746387922, -30.794200433), (3.5, -27.861898011))
                ThreePointArc((3.5, -27.861898011), (0, -27.05), (-3.5, -27.861898011))
            make_face()
            with BuildLine():
                ThreePointArc((6.062177826, -38.5), (4.949747468, -39.949747468), (3.5, -41.062177826))
                ThreePointArc((3.5, -41.062177826), (0, -42), (-3.5, -41.062177826))
                ThreePointArc((-3.5, -41.062177826), (-4.949747468, -39.949747468), (-6.062177826, -38.5))
                ThreePointArc((-6.062177826, -38.5), (-7, -35), (-6.062177826, -31.5))
                ThreePointArc((-6.062177826, -31.5), (-4.949747468, -30.050252532), (-3.5, -28.937822174))
                ThreePointArc((-3.5, -28.937822174), (0, -28), (3.5, -28.937822174))
                ThreePointArc((3.5, -28.937822174), (4.949747468, -30.050252532), (6.062177826, -31.5))
                ThreePointArc((6.062177826, -31.5), (6.761480784, -33.188266684), (7, -35))
                ThreePointArc((7, -35), (6.761480784, -36.811733316), (6.062177826, -38.5))
            make_face(mode=Mode.SUBTRACT)
        # profile 4 of 4: a face of its own
        with BuildSketch(Plane(origin=(0, 0, 0), x_dir=(-1, 0, 0), z_dir=(0, 0, -1)).offset(BOSS_EXTRUDE5_START)):
            with BuildLine():
                ThreePointArc((-3.5, -41.062177826), (0, -42), (3.5, -41.062177826))
                Line((3.5, -41.062177826), (3.5, -38.5))
                Line((3.5, -38.5), (6.062177826, -38.5))
                ThreePointArc((6.062177826, -38.5), (6.761480784, -36.811733316), (7, -35))
                ThreePointArc((7, -35), (6.761480784, -33.188266684), (6.062177826, -31.5))
                Line((6.062177826, -31.5), (3.5, -31.5))
                Line((3.5, -31.5), (3.5, -28.937822174))
                ThreePointArc((3.5, -28.937822174), (0, -28), (-3.5, -28.937822174))
                Line((-3.5, -28.937822174), (-3.5, -31.5))
                Line((-3.5, -31.5), (-6.062177826, -31.5))
                ThreePointArc((-6.062177826, -31.5), (-7, -35), (-6.062177826, -38.5))
                Line((-6.062177826, -38.5), (-3.5, -38.5))
                Line((-3.5, -38.5), (-3.5, -41.062177826))
            make_face()
            with Locations((0, -35)):
                Circle(SKETCH3_R, mode=Mode.SUBTRACT)
        extrude(amount=-BOSS_EXTRUDE5_DEPTH)

    # Sketch4 → Cut-Extrude1 (cut)
    with SkipClean():  # the faces are left unmerged after this step: merging them gives an invalid solid
        with BuildSketch(Plane.XY.offset(3)):
            with Locations((0, -35)):
                Circle(SKETCH4_R)
            with Locations(Location((0, 0, 0), (0, 0, 180))):
                Circle(SKETCH4_R)
        extrude(amount=-CUT_EXTRUDE1_DEPTH, mode=Mode.SUBTRACT)

    # Sketch5 → Cut-Extrude2 (cut)
    with SkipClean():  # the faces are left unmerged after this step: merging them gives an invalid solid
        with BuildSketch(Plane(origin=(0, 0, -3), x_dir=(-1, 0, 0), z_dir=(0, 0, -1))):
            Circle(SKETCH5_R)
        extrude(amount=-CUT_EXTRUDE2_DEPTH, mode=Mode.SUBTRACT)

    # Sketch6 → Cut-Extrude3 (cut)
    with SkipClean():  # the faces are left unmerged after this step: merging them gives an invalid solid
        with BuildSketch(Plane(origin=(0, 0, -3), x_dir=(-1, 0, 0), z_dir=(0, 0, -1))):
            with Locations((0, -35)):
                Circle(SKETCH6_R)
        extrude(amount=-CUT_EXTRUDE3_DEPTH, mode=Mode.SUBTRACT)

    # Sketch7 → Cut-Extrude4 (cut)
    with SkipClean():  # the faces are left unmerged after this step: merging them gives an invalid solid
        with BuildSketch(Plane.XY.offset(1.5)):
            with Locations((0, -35)):
                Circle(SKETCH7_R)
        extrude(amount=-CUT_EXTRUDE4_DEPTH, mode=Mode.SUBTRACT)

    # Sketch8 → Boss-Extrude6 (add)
    with SkipClean():  # the faces are left unmerged after this step: merging them gives an invalid solid
        with BuildSketch(Plane(origin=(0, 0, -3), x_dir=(-1, 0, 0), z_dir=(0, 0, -1)).offset(BOSS_EXTRUDE6_START)):
            Circle(SKETCH8_R)
            Circle(SKETCH8_R_2, mode=Mode.SUBTRACT)
        extrude(amount=-BOSS_EXTRUDE6_DEPTH)

    # Sketch9 → Boss-Extrude8 (add)
    # profile 1 of 2: a face of its own
    with SkipClean():  # the faces are left unmerged after this step: merging them gives an invalid solid
        with BuildSketch(Plane(origin=(0, 0, -2), x_dir=(-1, 0, 0), z_dir=(0, 0, -1)).offset(BOSS_EXTRUDE8_START)):
            with Locations((0, -35)):
                Circle(SKETCH9_R)
            with BuildLine():
                ThreePointArc((-6.062177826, -31.5), (-4.949747468, -30.050252532), (-3.5, -28.937822174))
                ThreePointArc((-3.5, -28.937822174), (0, -28), (3.5, -28.937822174))
                ThreePointArc((3.5, -28.937822174), (4.949747468, -30.050252532), (6.062177826, -31.5))
                ThreePointArc((6.062177826, -31.5), (6.761480784, -33.188266684), (7, -35))
                ThreePointArc((7, -35), (6.761480784, -36.811733316), (6.062177826, -38.5))
                ThreePointArc((6.062177826, -38.5), (4.949747468, -39.949747468), (3.5, -41.062177826))
                ThreePointArc((3.5, -41.062177826), (0, -42), (-3.5, -41.062177826))
                ThreePointArc((-3.5, -41.062177826), (-4.949747468, -39.949747468), (-6.062177826, -38.5))
                ThreePointArc((-6.062177826, -38.5), (-7, -35), (-6.062177826, -31.5))
            make_face(mode=Mode.SUBTRACT)
        # profile 2 of 2: a face of its own
        with BuildSketch(Plane(origin=(0, 0, -2), x_dir=(-1, 0, 0), z_dir=(0, 0, -1)).offset(BOSS_EXTRUDE8_START)):
            with BuildLine():
                ThreePointArc((3.5, -28.937822174), (0, -28), (-3.5, -28.937822174))
                Line((-3.5, -28.937822174), (-3.5, -31.5))
                Line((-3.5, -31.5), (-6.062177826, -31.5))
                ThreePointArc((-6.062177826, -31.5), (-7, -35), (-6.062177826, -38.5))
                Line((-6.062177826, -38.5), (-3.5, -38.5))
                Line((-3.5, -38.5), (-3.5, -41.062177826))
                ThreePointArc((-3.5, -41.062177826), (0, -42), (3.5, -41.062177826))
                Line((3.5, -41.062177826), (3.5, -38.5))
                Line((3.5, -38.5), (6.062177826, -38.5))
                ThreePointArc((6.062177826, -38.5), (6.761480784, -36.811733316), (7, -35))
                ThreePointArc((7, -35), (6.761480784, -33.188266684), (6.062177826, -31.5))
                Line((6.062177826, -31.5), (3.5, -31.5))
                Line((3.5, -31.5), (3.5, -28.937822174))
            make_face()
            with Locations((0, -35)):
                Circle(SKETCH9_R_2, mode=Mode.SUBTRACT)
        extrude(amount=-BOSS_EXTRUDE8_DEPTH)

    # Sketch10 → Boss-Extrude9 (add)
    with SkipClean():  # the faces are left unmerged after this step: merging them gives an invalid solid
        with BuildSketch(Plane(origin=(0, 0, 0), x_dir=(-1, 0, 0), z_dir=(0, 0, -1)).offset(BOSS_EXTRUDE9_START)):
            with BuildLine():
                ThreePointArc((3.5, -7.138101989), (0, -7.95), (-3.5, -7.138101989))
                Line((-3.5, -7.138101989), (-3.5, -27.861898011))
                ThreePointArc((-3.5, -27.861898011), (0, -27.05), (3.5, -27.861898011))
                Line((3.5, -27.861898011), (3.5, -7.138101989))
            make_face()
        extrude(amount=-BOSS_EXTRUDE9_DEPTH)

    # Sketch11 → Cut-Extrude5 (cut, through all)
    with SkipClean():  # the faces are left unmerged after this step: merging them gives an invalid solid
        with BuildSketch(Plane.XY.offset(3)):
            Circle(SKETCH11_R)
        extrude(amount=-CUT_EXTRUDE5_DEPTH, mode=Mode.SUBTRACT)


solid = part.part
